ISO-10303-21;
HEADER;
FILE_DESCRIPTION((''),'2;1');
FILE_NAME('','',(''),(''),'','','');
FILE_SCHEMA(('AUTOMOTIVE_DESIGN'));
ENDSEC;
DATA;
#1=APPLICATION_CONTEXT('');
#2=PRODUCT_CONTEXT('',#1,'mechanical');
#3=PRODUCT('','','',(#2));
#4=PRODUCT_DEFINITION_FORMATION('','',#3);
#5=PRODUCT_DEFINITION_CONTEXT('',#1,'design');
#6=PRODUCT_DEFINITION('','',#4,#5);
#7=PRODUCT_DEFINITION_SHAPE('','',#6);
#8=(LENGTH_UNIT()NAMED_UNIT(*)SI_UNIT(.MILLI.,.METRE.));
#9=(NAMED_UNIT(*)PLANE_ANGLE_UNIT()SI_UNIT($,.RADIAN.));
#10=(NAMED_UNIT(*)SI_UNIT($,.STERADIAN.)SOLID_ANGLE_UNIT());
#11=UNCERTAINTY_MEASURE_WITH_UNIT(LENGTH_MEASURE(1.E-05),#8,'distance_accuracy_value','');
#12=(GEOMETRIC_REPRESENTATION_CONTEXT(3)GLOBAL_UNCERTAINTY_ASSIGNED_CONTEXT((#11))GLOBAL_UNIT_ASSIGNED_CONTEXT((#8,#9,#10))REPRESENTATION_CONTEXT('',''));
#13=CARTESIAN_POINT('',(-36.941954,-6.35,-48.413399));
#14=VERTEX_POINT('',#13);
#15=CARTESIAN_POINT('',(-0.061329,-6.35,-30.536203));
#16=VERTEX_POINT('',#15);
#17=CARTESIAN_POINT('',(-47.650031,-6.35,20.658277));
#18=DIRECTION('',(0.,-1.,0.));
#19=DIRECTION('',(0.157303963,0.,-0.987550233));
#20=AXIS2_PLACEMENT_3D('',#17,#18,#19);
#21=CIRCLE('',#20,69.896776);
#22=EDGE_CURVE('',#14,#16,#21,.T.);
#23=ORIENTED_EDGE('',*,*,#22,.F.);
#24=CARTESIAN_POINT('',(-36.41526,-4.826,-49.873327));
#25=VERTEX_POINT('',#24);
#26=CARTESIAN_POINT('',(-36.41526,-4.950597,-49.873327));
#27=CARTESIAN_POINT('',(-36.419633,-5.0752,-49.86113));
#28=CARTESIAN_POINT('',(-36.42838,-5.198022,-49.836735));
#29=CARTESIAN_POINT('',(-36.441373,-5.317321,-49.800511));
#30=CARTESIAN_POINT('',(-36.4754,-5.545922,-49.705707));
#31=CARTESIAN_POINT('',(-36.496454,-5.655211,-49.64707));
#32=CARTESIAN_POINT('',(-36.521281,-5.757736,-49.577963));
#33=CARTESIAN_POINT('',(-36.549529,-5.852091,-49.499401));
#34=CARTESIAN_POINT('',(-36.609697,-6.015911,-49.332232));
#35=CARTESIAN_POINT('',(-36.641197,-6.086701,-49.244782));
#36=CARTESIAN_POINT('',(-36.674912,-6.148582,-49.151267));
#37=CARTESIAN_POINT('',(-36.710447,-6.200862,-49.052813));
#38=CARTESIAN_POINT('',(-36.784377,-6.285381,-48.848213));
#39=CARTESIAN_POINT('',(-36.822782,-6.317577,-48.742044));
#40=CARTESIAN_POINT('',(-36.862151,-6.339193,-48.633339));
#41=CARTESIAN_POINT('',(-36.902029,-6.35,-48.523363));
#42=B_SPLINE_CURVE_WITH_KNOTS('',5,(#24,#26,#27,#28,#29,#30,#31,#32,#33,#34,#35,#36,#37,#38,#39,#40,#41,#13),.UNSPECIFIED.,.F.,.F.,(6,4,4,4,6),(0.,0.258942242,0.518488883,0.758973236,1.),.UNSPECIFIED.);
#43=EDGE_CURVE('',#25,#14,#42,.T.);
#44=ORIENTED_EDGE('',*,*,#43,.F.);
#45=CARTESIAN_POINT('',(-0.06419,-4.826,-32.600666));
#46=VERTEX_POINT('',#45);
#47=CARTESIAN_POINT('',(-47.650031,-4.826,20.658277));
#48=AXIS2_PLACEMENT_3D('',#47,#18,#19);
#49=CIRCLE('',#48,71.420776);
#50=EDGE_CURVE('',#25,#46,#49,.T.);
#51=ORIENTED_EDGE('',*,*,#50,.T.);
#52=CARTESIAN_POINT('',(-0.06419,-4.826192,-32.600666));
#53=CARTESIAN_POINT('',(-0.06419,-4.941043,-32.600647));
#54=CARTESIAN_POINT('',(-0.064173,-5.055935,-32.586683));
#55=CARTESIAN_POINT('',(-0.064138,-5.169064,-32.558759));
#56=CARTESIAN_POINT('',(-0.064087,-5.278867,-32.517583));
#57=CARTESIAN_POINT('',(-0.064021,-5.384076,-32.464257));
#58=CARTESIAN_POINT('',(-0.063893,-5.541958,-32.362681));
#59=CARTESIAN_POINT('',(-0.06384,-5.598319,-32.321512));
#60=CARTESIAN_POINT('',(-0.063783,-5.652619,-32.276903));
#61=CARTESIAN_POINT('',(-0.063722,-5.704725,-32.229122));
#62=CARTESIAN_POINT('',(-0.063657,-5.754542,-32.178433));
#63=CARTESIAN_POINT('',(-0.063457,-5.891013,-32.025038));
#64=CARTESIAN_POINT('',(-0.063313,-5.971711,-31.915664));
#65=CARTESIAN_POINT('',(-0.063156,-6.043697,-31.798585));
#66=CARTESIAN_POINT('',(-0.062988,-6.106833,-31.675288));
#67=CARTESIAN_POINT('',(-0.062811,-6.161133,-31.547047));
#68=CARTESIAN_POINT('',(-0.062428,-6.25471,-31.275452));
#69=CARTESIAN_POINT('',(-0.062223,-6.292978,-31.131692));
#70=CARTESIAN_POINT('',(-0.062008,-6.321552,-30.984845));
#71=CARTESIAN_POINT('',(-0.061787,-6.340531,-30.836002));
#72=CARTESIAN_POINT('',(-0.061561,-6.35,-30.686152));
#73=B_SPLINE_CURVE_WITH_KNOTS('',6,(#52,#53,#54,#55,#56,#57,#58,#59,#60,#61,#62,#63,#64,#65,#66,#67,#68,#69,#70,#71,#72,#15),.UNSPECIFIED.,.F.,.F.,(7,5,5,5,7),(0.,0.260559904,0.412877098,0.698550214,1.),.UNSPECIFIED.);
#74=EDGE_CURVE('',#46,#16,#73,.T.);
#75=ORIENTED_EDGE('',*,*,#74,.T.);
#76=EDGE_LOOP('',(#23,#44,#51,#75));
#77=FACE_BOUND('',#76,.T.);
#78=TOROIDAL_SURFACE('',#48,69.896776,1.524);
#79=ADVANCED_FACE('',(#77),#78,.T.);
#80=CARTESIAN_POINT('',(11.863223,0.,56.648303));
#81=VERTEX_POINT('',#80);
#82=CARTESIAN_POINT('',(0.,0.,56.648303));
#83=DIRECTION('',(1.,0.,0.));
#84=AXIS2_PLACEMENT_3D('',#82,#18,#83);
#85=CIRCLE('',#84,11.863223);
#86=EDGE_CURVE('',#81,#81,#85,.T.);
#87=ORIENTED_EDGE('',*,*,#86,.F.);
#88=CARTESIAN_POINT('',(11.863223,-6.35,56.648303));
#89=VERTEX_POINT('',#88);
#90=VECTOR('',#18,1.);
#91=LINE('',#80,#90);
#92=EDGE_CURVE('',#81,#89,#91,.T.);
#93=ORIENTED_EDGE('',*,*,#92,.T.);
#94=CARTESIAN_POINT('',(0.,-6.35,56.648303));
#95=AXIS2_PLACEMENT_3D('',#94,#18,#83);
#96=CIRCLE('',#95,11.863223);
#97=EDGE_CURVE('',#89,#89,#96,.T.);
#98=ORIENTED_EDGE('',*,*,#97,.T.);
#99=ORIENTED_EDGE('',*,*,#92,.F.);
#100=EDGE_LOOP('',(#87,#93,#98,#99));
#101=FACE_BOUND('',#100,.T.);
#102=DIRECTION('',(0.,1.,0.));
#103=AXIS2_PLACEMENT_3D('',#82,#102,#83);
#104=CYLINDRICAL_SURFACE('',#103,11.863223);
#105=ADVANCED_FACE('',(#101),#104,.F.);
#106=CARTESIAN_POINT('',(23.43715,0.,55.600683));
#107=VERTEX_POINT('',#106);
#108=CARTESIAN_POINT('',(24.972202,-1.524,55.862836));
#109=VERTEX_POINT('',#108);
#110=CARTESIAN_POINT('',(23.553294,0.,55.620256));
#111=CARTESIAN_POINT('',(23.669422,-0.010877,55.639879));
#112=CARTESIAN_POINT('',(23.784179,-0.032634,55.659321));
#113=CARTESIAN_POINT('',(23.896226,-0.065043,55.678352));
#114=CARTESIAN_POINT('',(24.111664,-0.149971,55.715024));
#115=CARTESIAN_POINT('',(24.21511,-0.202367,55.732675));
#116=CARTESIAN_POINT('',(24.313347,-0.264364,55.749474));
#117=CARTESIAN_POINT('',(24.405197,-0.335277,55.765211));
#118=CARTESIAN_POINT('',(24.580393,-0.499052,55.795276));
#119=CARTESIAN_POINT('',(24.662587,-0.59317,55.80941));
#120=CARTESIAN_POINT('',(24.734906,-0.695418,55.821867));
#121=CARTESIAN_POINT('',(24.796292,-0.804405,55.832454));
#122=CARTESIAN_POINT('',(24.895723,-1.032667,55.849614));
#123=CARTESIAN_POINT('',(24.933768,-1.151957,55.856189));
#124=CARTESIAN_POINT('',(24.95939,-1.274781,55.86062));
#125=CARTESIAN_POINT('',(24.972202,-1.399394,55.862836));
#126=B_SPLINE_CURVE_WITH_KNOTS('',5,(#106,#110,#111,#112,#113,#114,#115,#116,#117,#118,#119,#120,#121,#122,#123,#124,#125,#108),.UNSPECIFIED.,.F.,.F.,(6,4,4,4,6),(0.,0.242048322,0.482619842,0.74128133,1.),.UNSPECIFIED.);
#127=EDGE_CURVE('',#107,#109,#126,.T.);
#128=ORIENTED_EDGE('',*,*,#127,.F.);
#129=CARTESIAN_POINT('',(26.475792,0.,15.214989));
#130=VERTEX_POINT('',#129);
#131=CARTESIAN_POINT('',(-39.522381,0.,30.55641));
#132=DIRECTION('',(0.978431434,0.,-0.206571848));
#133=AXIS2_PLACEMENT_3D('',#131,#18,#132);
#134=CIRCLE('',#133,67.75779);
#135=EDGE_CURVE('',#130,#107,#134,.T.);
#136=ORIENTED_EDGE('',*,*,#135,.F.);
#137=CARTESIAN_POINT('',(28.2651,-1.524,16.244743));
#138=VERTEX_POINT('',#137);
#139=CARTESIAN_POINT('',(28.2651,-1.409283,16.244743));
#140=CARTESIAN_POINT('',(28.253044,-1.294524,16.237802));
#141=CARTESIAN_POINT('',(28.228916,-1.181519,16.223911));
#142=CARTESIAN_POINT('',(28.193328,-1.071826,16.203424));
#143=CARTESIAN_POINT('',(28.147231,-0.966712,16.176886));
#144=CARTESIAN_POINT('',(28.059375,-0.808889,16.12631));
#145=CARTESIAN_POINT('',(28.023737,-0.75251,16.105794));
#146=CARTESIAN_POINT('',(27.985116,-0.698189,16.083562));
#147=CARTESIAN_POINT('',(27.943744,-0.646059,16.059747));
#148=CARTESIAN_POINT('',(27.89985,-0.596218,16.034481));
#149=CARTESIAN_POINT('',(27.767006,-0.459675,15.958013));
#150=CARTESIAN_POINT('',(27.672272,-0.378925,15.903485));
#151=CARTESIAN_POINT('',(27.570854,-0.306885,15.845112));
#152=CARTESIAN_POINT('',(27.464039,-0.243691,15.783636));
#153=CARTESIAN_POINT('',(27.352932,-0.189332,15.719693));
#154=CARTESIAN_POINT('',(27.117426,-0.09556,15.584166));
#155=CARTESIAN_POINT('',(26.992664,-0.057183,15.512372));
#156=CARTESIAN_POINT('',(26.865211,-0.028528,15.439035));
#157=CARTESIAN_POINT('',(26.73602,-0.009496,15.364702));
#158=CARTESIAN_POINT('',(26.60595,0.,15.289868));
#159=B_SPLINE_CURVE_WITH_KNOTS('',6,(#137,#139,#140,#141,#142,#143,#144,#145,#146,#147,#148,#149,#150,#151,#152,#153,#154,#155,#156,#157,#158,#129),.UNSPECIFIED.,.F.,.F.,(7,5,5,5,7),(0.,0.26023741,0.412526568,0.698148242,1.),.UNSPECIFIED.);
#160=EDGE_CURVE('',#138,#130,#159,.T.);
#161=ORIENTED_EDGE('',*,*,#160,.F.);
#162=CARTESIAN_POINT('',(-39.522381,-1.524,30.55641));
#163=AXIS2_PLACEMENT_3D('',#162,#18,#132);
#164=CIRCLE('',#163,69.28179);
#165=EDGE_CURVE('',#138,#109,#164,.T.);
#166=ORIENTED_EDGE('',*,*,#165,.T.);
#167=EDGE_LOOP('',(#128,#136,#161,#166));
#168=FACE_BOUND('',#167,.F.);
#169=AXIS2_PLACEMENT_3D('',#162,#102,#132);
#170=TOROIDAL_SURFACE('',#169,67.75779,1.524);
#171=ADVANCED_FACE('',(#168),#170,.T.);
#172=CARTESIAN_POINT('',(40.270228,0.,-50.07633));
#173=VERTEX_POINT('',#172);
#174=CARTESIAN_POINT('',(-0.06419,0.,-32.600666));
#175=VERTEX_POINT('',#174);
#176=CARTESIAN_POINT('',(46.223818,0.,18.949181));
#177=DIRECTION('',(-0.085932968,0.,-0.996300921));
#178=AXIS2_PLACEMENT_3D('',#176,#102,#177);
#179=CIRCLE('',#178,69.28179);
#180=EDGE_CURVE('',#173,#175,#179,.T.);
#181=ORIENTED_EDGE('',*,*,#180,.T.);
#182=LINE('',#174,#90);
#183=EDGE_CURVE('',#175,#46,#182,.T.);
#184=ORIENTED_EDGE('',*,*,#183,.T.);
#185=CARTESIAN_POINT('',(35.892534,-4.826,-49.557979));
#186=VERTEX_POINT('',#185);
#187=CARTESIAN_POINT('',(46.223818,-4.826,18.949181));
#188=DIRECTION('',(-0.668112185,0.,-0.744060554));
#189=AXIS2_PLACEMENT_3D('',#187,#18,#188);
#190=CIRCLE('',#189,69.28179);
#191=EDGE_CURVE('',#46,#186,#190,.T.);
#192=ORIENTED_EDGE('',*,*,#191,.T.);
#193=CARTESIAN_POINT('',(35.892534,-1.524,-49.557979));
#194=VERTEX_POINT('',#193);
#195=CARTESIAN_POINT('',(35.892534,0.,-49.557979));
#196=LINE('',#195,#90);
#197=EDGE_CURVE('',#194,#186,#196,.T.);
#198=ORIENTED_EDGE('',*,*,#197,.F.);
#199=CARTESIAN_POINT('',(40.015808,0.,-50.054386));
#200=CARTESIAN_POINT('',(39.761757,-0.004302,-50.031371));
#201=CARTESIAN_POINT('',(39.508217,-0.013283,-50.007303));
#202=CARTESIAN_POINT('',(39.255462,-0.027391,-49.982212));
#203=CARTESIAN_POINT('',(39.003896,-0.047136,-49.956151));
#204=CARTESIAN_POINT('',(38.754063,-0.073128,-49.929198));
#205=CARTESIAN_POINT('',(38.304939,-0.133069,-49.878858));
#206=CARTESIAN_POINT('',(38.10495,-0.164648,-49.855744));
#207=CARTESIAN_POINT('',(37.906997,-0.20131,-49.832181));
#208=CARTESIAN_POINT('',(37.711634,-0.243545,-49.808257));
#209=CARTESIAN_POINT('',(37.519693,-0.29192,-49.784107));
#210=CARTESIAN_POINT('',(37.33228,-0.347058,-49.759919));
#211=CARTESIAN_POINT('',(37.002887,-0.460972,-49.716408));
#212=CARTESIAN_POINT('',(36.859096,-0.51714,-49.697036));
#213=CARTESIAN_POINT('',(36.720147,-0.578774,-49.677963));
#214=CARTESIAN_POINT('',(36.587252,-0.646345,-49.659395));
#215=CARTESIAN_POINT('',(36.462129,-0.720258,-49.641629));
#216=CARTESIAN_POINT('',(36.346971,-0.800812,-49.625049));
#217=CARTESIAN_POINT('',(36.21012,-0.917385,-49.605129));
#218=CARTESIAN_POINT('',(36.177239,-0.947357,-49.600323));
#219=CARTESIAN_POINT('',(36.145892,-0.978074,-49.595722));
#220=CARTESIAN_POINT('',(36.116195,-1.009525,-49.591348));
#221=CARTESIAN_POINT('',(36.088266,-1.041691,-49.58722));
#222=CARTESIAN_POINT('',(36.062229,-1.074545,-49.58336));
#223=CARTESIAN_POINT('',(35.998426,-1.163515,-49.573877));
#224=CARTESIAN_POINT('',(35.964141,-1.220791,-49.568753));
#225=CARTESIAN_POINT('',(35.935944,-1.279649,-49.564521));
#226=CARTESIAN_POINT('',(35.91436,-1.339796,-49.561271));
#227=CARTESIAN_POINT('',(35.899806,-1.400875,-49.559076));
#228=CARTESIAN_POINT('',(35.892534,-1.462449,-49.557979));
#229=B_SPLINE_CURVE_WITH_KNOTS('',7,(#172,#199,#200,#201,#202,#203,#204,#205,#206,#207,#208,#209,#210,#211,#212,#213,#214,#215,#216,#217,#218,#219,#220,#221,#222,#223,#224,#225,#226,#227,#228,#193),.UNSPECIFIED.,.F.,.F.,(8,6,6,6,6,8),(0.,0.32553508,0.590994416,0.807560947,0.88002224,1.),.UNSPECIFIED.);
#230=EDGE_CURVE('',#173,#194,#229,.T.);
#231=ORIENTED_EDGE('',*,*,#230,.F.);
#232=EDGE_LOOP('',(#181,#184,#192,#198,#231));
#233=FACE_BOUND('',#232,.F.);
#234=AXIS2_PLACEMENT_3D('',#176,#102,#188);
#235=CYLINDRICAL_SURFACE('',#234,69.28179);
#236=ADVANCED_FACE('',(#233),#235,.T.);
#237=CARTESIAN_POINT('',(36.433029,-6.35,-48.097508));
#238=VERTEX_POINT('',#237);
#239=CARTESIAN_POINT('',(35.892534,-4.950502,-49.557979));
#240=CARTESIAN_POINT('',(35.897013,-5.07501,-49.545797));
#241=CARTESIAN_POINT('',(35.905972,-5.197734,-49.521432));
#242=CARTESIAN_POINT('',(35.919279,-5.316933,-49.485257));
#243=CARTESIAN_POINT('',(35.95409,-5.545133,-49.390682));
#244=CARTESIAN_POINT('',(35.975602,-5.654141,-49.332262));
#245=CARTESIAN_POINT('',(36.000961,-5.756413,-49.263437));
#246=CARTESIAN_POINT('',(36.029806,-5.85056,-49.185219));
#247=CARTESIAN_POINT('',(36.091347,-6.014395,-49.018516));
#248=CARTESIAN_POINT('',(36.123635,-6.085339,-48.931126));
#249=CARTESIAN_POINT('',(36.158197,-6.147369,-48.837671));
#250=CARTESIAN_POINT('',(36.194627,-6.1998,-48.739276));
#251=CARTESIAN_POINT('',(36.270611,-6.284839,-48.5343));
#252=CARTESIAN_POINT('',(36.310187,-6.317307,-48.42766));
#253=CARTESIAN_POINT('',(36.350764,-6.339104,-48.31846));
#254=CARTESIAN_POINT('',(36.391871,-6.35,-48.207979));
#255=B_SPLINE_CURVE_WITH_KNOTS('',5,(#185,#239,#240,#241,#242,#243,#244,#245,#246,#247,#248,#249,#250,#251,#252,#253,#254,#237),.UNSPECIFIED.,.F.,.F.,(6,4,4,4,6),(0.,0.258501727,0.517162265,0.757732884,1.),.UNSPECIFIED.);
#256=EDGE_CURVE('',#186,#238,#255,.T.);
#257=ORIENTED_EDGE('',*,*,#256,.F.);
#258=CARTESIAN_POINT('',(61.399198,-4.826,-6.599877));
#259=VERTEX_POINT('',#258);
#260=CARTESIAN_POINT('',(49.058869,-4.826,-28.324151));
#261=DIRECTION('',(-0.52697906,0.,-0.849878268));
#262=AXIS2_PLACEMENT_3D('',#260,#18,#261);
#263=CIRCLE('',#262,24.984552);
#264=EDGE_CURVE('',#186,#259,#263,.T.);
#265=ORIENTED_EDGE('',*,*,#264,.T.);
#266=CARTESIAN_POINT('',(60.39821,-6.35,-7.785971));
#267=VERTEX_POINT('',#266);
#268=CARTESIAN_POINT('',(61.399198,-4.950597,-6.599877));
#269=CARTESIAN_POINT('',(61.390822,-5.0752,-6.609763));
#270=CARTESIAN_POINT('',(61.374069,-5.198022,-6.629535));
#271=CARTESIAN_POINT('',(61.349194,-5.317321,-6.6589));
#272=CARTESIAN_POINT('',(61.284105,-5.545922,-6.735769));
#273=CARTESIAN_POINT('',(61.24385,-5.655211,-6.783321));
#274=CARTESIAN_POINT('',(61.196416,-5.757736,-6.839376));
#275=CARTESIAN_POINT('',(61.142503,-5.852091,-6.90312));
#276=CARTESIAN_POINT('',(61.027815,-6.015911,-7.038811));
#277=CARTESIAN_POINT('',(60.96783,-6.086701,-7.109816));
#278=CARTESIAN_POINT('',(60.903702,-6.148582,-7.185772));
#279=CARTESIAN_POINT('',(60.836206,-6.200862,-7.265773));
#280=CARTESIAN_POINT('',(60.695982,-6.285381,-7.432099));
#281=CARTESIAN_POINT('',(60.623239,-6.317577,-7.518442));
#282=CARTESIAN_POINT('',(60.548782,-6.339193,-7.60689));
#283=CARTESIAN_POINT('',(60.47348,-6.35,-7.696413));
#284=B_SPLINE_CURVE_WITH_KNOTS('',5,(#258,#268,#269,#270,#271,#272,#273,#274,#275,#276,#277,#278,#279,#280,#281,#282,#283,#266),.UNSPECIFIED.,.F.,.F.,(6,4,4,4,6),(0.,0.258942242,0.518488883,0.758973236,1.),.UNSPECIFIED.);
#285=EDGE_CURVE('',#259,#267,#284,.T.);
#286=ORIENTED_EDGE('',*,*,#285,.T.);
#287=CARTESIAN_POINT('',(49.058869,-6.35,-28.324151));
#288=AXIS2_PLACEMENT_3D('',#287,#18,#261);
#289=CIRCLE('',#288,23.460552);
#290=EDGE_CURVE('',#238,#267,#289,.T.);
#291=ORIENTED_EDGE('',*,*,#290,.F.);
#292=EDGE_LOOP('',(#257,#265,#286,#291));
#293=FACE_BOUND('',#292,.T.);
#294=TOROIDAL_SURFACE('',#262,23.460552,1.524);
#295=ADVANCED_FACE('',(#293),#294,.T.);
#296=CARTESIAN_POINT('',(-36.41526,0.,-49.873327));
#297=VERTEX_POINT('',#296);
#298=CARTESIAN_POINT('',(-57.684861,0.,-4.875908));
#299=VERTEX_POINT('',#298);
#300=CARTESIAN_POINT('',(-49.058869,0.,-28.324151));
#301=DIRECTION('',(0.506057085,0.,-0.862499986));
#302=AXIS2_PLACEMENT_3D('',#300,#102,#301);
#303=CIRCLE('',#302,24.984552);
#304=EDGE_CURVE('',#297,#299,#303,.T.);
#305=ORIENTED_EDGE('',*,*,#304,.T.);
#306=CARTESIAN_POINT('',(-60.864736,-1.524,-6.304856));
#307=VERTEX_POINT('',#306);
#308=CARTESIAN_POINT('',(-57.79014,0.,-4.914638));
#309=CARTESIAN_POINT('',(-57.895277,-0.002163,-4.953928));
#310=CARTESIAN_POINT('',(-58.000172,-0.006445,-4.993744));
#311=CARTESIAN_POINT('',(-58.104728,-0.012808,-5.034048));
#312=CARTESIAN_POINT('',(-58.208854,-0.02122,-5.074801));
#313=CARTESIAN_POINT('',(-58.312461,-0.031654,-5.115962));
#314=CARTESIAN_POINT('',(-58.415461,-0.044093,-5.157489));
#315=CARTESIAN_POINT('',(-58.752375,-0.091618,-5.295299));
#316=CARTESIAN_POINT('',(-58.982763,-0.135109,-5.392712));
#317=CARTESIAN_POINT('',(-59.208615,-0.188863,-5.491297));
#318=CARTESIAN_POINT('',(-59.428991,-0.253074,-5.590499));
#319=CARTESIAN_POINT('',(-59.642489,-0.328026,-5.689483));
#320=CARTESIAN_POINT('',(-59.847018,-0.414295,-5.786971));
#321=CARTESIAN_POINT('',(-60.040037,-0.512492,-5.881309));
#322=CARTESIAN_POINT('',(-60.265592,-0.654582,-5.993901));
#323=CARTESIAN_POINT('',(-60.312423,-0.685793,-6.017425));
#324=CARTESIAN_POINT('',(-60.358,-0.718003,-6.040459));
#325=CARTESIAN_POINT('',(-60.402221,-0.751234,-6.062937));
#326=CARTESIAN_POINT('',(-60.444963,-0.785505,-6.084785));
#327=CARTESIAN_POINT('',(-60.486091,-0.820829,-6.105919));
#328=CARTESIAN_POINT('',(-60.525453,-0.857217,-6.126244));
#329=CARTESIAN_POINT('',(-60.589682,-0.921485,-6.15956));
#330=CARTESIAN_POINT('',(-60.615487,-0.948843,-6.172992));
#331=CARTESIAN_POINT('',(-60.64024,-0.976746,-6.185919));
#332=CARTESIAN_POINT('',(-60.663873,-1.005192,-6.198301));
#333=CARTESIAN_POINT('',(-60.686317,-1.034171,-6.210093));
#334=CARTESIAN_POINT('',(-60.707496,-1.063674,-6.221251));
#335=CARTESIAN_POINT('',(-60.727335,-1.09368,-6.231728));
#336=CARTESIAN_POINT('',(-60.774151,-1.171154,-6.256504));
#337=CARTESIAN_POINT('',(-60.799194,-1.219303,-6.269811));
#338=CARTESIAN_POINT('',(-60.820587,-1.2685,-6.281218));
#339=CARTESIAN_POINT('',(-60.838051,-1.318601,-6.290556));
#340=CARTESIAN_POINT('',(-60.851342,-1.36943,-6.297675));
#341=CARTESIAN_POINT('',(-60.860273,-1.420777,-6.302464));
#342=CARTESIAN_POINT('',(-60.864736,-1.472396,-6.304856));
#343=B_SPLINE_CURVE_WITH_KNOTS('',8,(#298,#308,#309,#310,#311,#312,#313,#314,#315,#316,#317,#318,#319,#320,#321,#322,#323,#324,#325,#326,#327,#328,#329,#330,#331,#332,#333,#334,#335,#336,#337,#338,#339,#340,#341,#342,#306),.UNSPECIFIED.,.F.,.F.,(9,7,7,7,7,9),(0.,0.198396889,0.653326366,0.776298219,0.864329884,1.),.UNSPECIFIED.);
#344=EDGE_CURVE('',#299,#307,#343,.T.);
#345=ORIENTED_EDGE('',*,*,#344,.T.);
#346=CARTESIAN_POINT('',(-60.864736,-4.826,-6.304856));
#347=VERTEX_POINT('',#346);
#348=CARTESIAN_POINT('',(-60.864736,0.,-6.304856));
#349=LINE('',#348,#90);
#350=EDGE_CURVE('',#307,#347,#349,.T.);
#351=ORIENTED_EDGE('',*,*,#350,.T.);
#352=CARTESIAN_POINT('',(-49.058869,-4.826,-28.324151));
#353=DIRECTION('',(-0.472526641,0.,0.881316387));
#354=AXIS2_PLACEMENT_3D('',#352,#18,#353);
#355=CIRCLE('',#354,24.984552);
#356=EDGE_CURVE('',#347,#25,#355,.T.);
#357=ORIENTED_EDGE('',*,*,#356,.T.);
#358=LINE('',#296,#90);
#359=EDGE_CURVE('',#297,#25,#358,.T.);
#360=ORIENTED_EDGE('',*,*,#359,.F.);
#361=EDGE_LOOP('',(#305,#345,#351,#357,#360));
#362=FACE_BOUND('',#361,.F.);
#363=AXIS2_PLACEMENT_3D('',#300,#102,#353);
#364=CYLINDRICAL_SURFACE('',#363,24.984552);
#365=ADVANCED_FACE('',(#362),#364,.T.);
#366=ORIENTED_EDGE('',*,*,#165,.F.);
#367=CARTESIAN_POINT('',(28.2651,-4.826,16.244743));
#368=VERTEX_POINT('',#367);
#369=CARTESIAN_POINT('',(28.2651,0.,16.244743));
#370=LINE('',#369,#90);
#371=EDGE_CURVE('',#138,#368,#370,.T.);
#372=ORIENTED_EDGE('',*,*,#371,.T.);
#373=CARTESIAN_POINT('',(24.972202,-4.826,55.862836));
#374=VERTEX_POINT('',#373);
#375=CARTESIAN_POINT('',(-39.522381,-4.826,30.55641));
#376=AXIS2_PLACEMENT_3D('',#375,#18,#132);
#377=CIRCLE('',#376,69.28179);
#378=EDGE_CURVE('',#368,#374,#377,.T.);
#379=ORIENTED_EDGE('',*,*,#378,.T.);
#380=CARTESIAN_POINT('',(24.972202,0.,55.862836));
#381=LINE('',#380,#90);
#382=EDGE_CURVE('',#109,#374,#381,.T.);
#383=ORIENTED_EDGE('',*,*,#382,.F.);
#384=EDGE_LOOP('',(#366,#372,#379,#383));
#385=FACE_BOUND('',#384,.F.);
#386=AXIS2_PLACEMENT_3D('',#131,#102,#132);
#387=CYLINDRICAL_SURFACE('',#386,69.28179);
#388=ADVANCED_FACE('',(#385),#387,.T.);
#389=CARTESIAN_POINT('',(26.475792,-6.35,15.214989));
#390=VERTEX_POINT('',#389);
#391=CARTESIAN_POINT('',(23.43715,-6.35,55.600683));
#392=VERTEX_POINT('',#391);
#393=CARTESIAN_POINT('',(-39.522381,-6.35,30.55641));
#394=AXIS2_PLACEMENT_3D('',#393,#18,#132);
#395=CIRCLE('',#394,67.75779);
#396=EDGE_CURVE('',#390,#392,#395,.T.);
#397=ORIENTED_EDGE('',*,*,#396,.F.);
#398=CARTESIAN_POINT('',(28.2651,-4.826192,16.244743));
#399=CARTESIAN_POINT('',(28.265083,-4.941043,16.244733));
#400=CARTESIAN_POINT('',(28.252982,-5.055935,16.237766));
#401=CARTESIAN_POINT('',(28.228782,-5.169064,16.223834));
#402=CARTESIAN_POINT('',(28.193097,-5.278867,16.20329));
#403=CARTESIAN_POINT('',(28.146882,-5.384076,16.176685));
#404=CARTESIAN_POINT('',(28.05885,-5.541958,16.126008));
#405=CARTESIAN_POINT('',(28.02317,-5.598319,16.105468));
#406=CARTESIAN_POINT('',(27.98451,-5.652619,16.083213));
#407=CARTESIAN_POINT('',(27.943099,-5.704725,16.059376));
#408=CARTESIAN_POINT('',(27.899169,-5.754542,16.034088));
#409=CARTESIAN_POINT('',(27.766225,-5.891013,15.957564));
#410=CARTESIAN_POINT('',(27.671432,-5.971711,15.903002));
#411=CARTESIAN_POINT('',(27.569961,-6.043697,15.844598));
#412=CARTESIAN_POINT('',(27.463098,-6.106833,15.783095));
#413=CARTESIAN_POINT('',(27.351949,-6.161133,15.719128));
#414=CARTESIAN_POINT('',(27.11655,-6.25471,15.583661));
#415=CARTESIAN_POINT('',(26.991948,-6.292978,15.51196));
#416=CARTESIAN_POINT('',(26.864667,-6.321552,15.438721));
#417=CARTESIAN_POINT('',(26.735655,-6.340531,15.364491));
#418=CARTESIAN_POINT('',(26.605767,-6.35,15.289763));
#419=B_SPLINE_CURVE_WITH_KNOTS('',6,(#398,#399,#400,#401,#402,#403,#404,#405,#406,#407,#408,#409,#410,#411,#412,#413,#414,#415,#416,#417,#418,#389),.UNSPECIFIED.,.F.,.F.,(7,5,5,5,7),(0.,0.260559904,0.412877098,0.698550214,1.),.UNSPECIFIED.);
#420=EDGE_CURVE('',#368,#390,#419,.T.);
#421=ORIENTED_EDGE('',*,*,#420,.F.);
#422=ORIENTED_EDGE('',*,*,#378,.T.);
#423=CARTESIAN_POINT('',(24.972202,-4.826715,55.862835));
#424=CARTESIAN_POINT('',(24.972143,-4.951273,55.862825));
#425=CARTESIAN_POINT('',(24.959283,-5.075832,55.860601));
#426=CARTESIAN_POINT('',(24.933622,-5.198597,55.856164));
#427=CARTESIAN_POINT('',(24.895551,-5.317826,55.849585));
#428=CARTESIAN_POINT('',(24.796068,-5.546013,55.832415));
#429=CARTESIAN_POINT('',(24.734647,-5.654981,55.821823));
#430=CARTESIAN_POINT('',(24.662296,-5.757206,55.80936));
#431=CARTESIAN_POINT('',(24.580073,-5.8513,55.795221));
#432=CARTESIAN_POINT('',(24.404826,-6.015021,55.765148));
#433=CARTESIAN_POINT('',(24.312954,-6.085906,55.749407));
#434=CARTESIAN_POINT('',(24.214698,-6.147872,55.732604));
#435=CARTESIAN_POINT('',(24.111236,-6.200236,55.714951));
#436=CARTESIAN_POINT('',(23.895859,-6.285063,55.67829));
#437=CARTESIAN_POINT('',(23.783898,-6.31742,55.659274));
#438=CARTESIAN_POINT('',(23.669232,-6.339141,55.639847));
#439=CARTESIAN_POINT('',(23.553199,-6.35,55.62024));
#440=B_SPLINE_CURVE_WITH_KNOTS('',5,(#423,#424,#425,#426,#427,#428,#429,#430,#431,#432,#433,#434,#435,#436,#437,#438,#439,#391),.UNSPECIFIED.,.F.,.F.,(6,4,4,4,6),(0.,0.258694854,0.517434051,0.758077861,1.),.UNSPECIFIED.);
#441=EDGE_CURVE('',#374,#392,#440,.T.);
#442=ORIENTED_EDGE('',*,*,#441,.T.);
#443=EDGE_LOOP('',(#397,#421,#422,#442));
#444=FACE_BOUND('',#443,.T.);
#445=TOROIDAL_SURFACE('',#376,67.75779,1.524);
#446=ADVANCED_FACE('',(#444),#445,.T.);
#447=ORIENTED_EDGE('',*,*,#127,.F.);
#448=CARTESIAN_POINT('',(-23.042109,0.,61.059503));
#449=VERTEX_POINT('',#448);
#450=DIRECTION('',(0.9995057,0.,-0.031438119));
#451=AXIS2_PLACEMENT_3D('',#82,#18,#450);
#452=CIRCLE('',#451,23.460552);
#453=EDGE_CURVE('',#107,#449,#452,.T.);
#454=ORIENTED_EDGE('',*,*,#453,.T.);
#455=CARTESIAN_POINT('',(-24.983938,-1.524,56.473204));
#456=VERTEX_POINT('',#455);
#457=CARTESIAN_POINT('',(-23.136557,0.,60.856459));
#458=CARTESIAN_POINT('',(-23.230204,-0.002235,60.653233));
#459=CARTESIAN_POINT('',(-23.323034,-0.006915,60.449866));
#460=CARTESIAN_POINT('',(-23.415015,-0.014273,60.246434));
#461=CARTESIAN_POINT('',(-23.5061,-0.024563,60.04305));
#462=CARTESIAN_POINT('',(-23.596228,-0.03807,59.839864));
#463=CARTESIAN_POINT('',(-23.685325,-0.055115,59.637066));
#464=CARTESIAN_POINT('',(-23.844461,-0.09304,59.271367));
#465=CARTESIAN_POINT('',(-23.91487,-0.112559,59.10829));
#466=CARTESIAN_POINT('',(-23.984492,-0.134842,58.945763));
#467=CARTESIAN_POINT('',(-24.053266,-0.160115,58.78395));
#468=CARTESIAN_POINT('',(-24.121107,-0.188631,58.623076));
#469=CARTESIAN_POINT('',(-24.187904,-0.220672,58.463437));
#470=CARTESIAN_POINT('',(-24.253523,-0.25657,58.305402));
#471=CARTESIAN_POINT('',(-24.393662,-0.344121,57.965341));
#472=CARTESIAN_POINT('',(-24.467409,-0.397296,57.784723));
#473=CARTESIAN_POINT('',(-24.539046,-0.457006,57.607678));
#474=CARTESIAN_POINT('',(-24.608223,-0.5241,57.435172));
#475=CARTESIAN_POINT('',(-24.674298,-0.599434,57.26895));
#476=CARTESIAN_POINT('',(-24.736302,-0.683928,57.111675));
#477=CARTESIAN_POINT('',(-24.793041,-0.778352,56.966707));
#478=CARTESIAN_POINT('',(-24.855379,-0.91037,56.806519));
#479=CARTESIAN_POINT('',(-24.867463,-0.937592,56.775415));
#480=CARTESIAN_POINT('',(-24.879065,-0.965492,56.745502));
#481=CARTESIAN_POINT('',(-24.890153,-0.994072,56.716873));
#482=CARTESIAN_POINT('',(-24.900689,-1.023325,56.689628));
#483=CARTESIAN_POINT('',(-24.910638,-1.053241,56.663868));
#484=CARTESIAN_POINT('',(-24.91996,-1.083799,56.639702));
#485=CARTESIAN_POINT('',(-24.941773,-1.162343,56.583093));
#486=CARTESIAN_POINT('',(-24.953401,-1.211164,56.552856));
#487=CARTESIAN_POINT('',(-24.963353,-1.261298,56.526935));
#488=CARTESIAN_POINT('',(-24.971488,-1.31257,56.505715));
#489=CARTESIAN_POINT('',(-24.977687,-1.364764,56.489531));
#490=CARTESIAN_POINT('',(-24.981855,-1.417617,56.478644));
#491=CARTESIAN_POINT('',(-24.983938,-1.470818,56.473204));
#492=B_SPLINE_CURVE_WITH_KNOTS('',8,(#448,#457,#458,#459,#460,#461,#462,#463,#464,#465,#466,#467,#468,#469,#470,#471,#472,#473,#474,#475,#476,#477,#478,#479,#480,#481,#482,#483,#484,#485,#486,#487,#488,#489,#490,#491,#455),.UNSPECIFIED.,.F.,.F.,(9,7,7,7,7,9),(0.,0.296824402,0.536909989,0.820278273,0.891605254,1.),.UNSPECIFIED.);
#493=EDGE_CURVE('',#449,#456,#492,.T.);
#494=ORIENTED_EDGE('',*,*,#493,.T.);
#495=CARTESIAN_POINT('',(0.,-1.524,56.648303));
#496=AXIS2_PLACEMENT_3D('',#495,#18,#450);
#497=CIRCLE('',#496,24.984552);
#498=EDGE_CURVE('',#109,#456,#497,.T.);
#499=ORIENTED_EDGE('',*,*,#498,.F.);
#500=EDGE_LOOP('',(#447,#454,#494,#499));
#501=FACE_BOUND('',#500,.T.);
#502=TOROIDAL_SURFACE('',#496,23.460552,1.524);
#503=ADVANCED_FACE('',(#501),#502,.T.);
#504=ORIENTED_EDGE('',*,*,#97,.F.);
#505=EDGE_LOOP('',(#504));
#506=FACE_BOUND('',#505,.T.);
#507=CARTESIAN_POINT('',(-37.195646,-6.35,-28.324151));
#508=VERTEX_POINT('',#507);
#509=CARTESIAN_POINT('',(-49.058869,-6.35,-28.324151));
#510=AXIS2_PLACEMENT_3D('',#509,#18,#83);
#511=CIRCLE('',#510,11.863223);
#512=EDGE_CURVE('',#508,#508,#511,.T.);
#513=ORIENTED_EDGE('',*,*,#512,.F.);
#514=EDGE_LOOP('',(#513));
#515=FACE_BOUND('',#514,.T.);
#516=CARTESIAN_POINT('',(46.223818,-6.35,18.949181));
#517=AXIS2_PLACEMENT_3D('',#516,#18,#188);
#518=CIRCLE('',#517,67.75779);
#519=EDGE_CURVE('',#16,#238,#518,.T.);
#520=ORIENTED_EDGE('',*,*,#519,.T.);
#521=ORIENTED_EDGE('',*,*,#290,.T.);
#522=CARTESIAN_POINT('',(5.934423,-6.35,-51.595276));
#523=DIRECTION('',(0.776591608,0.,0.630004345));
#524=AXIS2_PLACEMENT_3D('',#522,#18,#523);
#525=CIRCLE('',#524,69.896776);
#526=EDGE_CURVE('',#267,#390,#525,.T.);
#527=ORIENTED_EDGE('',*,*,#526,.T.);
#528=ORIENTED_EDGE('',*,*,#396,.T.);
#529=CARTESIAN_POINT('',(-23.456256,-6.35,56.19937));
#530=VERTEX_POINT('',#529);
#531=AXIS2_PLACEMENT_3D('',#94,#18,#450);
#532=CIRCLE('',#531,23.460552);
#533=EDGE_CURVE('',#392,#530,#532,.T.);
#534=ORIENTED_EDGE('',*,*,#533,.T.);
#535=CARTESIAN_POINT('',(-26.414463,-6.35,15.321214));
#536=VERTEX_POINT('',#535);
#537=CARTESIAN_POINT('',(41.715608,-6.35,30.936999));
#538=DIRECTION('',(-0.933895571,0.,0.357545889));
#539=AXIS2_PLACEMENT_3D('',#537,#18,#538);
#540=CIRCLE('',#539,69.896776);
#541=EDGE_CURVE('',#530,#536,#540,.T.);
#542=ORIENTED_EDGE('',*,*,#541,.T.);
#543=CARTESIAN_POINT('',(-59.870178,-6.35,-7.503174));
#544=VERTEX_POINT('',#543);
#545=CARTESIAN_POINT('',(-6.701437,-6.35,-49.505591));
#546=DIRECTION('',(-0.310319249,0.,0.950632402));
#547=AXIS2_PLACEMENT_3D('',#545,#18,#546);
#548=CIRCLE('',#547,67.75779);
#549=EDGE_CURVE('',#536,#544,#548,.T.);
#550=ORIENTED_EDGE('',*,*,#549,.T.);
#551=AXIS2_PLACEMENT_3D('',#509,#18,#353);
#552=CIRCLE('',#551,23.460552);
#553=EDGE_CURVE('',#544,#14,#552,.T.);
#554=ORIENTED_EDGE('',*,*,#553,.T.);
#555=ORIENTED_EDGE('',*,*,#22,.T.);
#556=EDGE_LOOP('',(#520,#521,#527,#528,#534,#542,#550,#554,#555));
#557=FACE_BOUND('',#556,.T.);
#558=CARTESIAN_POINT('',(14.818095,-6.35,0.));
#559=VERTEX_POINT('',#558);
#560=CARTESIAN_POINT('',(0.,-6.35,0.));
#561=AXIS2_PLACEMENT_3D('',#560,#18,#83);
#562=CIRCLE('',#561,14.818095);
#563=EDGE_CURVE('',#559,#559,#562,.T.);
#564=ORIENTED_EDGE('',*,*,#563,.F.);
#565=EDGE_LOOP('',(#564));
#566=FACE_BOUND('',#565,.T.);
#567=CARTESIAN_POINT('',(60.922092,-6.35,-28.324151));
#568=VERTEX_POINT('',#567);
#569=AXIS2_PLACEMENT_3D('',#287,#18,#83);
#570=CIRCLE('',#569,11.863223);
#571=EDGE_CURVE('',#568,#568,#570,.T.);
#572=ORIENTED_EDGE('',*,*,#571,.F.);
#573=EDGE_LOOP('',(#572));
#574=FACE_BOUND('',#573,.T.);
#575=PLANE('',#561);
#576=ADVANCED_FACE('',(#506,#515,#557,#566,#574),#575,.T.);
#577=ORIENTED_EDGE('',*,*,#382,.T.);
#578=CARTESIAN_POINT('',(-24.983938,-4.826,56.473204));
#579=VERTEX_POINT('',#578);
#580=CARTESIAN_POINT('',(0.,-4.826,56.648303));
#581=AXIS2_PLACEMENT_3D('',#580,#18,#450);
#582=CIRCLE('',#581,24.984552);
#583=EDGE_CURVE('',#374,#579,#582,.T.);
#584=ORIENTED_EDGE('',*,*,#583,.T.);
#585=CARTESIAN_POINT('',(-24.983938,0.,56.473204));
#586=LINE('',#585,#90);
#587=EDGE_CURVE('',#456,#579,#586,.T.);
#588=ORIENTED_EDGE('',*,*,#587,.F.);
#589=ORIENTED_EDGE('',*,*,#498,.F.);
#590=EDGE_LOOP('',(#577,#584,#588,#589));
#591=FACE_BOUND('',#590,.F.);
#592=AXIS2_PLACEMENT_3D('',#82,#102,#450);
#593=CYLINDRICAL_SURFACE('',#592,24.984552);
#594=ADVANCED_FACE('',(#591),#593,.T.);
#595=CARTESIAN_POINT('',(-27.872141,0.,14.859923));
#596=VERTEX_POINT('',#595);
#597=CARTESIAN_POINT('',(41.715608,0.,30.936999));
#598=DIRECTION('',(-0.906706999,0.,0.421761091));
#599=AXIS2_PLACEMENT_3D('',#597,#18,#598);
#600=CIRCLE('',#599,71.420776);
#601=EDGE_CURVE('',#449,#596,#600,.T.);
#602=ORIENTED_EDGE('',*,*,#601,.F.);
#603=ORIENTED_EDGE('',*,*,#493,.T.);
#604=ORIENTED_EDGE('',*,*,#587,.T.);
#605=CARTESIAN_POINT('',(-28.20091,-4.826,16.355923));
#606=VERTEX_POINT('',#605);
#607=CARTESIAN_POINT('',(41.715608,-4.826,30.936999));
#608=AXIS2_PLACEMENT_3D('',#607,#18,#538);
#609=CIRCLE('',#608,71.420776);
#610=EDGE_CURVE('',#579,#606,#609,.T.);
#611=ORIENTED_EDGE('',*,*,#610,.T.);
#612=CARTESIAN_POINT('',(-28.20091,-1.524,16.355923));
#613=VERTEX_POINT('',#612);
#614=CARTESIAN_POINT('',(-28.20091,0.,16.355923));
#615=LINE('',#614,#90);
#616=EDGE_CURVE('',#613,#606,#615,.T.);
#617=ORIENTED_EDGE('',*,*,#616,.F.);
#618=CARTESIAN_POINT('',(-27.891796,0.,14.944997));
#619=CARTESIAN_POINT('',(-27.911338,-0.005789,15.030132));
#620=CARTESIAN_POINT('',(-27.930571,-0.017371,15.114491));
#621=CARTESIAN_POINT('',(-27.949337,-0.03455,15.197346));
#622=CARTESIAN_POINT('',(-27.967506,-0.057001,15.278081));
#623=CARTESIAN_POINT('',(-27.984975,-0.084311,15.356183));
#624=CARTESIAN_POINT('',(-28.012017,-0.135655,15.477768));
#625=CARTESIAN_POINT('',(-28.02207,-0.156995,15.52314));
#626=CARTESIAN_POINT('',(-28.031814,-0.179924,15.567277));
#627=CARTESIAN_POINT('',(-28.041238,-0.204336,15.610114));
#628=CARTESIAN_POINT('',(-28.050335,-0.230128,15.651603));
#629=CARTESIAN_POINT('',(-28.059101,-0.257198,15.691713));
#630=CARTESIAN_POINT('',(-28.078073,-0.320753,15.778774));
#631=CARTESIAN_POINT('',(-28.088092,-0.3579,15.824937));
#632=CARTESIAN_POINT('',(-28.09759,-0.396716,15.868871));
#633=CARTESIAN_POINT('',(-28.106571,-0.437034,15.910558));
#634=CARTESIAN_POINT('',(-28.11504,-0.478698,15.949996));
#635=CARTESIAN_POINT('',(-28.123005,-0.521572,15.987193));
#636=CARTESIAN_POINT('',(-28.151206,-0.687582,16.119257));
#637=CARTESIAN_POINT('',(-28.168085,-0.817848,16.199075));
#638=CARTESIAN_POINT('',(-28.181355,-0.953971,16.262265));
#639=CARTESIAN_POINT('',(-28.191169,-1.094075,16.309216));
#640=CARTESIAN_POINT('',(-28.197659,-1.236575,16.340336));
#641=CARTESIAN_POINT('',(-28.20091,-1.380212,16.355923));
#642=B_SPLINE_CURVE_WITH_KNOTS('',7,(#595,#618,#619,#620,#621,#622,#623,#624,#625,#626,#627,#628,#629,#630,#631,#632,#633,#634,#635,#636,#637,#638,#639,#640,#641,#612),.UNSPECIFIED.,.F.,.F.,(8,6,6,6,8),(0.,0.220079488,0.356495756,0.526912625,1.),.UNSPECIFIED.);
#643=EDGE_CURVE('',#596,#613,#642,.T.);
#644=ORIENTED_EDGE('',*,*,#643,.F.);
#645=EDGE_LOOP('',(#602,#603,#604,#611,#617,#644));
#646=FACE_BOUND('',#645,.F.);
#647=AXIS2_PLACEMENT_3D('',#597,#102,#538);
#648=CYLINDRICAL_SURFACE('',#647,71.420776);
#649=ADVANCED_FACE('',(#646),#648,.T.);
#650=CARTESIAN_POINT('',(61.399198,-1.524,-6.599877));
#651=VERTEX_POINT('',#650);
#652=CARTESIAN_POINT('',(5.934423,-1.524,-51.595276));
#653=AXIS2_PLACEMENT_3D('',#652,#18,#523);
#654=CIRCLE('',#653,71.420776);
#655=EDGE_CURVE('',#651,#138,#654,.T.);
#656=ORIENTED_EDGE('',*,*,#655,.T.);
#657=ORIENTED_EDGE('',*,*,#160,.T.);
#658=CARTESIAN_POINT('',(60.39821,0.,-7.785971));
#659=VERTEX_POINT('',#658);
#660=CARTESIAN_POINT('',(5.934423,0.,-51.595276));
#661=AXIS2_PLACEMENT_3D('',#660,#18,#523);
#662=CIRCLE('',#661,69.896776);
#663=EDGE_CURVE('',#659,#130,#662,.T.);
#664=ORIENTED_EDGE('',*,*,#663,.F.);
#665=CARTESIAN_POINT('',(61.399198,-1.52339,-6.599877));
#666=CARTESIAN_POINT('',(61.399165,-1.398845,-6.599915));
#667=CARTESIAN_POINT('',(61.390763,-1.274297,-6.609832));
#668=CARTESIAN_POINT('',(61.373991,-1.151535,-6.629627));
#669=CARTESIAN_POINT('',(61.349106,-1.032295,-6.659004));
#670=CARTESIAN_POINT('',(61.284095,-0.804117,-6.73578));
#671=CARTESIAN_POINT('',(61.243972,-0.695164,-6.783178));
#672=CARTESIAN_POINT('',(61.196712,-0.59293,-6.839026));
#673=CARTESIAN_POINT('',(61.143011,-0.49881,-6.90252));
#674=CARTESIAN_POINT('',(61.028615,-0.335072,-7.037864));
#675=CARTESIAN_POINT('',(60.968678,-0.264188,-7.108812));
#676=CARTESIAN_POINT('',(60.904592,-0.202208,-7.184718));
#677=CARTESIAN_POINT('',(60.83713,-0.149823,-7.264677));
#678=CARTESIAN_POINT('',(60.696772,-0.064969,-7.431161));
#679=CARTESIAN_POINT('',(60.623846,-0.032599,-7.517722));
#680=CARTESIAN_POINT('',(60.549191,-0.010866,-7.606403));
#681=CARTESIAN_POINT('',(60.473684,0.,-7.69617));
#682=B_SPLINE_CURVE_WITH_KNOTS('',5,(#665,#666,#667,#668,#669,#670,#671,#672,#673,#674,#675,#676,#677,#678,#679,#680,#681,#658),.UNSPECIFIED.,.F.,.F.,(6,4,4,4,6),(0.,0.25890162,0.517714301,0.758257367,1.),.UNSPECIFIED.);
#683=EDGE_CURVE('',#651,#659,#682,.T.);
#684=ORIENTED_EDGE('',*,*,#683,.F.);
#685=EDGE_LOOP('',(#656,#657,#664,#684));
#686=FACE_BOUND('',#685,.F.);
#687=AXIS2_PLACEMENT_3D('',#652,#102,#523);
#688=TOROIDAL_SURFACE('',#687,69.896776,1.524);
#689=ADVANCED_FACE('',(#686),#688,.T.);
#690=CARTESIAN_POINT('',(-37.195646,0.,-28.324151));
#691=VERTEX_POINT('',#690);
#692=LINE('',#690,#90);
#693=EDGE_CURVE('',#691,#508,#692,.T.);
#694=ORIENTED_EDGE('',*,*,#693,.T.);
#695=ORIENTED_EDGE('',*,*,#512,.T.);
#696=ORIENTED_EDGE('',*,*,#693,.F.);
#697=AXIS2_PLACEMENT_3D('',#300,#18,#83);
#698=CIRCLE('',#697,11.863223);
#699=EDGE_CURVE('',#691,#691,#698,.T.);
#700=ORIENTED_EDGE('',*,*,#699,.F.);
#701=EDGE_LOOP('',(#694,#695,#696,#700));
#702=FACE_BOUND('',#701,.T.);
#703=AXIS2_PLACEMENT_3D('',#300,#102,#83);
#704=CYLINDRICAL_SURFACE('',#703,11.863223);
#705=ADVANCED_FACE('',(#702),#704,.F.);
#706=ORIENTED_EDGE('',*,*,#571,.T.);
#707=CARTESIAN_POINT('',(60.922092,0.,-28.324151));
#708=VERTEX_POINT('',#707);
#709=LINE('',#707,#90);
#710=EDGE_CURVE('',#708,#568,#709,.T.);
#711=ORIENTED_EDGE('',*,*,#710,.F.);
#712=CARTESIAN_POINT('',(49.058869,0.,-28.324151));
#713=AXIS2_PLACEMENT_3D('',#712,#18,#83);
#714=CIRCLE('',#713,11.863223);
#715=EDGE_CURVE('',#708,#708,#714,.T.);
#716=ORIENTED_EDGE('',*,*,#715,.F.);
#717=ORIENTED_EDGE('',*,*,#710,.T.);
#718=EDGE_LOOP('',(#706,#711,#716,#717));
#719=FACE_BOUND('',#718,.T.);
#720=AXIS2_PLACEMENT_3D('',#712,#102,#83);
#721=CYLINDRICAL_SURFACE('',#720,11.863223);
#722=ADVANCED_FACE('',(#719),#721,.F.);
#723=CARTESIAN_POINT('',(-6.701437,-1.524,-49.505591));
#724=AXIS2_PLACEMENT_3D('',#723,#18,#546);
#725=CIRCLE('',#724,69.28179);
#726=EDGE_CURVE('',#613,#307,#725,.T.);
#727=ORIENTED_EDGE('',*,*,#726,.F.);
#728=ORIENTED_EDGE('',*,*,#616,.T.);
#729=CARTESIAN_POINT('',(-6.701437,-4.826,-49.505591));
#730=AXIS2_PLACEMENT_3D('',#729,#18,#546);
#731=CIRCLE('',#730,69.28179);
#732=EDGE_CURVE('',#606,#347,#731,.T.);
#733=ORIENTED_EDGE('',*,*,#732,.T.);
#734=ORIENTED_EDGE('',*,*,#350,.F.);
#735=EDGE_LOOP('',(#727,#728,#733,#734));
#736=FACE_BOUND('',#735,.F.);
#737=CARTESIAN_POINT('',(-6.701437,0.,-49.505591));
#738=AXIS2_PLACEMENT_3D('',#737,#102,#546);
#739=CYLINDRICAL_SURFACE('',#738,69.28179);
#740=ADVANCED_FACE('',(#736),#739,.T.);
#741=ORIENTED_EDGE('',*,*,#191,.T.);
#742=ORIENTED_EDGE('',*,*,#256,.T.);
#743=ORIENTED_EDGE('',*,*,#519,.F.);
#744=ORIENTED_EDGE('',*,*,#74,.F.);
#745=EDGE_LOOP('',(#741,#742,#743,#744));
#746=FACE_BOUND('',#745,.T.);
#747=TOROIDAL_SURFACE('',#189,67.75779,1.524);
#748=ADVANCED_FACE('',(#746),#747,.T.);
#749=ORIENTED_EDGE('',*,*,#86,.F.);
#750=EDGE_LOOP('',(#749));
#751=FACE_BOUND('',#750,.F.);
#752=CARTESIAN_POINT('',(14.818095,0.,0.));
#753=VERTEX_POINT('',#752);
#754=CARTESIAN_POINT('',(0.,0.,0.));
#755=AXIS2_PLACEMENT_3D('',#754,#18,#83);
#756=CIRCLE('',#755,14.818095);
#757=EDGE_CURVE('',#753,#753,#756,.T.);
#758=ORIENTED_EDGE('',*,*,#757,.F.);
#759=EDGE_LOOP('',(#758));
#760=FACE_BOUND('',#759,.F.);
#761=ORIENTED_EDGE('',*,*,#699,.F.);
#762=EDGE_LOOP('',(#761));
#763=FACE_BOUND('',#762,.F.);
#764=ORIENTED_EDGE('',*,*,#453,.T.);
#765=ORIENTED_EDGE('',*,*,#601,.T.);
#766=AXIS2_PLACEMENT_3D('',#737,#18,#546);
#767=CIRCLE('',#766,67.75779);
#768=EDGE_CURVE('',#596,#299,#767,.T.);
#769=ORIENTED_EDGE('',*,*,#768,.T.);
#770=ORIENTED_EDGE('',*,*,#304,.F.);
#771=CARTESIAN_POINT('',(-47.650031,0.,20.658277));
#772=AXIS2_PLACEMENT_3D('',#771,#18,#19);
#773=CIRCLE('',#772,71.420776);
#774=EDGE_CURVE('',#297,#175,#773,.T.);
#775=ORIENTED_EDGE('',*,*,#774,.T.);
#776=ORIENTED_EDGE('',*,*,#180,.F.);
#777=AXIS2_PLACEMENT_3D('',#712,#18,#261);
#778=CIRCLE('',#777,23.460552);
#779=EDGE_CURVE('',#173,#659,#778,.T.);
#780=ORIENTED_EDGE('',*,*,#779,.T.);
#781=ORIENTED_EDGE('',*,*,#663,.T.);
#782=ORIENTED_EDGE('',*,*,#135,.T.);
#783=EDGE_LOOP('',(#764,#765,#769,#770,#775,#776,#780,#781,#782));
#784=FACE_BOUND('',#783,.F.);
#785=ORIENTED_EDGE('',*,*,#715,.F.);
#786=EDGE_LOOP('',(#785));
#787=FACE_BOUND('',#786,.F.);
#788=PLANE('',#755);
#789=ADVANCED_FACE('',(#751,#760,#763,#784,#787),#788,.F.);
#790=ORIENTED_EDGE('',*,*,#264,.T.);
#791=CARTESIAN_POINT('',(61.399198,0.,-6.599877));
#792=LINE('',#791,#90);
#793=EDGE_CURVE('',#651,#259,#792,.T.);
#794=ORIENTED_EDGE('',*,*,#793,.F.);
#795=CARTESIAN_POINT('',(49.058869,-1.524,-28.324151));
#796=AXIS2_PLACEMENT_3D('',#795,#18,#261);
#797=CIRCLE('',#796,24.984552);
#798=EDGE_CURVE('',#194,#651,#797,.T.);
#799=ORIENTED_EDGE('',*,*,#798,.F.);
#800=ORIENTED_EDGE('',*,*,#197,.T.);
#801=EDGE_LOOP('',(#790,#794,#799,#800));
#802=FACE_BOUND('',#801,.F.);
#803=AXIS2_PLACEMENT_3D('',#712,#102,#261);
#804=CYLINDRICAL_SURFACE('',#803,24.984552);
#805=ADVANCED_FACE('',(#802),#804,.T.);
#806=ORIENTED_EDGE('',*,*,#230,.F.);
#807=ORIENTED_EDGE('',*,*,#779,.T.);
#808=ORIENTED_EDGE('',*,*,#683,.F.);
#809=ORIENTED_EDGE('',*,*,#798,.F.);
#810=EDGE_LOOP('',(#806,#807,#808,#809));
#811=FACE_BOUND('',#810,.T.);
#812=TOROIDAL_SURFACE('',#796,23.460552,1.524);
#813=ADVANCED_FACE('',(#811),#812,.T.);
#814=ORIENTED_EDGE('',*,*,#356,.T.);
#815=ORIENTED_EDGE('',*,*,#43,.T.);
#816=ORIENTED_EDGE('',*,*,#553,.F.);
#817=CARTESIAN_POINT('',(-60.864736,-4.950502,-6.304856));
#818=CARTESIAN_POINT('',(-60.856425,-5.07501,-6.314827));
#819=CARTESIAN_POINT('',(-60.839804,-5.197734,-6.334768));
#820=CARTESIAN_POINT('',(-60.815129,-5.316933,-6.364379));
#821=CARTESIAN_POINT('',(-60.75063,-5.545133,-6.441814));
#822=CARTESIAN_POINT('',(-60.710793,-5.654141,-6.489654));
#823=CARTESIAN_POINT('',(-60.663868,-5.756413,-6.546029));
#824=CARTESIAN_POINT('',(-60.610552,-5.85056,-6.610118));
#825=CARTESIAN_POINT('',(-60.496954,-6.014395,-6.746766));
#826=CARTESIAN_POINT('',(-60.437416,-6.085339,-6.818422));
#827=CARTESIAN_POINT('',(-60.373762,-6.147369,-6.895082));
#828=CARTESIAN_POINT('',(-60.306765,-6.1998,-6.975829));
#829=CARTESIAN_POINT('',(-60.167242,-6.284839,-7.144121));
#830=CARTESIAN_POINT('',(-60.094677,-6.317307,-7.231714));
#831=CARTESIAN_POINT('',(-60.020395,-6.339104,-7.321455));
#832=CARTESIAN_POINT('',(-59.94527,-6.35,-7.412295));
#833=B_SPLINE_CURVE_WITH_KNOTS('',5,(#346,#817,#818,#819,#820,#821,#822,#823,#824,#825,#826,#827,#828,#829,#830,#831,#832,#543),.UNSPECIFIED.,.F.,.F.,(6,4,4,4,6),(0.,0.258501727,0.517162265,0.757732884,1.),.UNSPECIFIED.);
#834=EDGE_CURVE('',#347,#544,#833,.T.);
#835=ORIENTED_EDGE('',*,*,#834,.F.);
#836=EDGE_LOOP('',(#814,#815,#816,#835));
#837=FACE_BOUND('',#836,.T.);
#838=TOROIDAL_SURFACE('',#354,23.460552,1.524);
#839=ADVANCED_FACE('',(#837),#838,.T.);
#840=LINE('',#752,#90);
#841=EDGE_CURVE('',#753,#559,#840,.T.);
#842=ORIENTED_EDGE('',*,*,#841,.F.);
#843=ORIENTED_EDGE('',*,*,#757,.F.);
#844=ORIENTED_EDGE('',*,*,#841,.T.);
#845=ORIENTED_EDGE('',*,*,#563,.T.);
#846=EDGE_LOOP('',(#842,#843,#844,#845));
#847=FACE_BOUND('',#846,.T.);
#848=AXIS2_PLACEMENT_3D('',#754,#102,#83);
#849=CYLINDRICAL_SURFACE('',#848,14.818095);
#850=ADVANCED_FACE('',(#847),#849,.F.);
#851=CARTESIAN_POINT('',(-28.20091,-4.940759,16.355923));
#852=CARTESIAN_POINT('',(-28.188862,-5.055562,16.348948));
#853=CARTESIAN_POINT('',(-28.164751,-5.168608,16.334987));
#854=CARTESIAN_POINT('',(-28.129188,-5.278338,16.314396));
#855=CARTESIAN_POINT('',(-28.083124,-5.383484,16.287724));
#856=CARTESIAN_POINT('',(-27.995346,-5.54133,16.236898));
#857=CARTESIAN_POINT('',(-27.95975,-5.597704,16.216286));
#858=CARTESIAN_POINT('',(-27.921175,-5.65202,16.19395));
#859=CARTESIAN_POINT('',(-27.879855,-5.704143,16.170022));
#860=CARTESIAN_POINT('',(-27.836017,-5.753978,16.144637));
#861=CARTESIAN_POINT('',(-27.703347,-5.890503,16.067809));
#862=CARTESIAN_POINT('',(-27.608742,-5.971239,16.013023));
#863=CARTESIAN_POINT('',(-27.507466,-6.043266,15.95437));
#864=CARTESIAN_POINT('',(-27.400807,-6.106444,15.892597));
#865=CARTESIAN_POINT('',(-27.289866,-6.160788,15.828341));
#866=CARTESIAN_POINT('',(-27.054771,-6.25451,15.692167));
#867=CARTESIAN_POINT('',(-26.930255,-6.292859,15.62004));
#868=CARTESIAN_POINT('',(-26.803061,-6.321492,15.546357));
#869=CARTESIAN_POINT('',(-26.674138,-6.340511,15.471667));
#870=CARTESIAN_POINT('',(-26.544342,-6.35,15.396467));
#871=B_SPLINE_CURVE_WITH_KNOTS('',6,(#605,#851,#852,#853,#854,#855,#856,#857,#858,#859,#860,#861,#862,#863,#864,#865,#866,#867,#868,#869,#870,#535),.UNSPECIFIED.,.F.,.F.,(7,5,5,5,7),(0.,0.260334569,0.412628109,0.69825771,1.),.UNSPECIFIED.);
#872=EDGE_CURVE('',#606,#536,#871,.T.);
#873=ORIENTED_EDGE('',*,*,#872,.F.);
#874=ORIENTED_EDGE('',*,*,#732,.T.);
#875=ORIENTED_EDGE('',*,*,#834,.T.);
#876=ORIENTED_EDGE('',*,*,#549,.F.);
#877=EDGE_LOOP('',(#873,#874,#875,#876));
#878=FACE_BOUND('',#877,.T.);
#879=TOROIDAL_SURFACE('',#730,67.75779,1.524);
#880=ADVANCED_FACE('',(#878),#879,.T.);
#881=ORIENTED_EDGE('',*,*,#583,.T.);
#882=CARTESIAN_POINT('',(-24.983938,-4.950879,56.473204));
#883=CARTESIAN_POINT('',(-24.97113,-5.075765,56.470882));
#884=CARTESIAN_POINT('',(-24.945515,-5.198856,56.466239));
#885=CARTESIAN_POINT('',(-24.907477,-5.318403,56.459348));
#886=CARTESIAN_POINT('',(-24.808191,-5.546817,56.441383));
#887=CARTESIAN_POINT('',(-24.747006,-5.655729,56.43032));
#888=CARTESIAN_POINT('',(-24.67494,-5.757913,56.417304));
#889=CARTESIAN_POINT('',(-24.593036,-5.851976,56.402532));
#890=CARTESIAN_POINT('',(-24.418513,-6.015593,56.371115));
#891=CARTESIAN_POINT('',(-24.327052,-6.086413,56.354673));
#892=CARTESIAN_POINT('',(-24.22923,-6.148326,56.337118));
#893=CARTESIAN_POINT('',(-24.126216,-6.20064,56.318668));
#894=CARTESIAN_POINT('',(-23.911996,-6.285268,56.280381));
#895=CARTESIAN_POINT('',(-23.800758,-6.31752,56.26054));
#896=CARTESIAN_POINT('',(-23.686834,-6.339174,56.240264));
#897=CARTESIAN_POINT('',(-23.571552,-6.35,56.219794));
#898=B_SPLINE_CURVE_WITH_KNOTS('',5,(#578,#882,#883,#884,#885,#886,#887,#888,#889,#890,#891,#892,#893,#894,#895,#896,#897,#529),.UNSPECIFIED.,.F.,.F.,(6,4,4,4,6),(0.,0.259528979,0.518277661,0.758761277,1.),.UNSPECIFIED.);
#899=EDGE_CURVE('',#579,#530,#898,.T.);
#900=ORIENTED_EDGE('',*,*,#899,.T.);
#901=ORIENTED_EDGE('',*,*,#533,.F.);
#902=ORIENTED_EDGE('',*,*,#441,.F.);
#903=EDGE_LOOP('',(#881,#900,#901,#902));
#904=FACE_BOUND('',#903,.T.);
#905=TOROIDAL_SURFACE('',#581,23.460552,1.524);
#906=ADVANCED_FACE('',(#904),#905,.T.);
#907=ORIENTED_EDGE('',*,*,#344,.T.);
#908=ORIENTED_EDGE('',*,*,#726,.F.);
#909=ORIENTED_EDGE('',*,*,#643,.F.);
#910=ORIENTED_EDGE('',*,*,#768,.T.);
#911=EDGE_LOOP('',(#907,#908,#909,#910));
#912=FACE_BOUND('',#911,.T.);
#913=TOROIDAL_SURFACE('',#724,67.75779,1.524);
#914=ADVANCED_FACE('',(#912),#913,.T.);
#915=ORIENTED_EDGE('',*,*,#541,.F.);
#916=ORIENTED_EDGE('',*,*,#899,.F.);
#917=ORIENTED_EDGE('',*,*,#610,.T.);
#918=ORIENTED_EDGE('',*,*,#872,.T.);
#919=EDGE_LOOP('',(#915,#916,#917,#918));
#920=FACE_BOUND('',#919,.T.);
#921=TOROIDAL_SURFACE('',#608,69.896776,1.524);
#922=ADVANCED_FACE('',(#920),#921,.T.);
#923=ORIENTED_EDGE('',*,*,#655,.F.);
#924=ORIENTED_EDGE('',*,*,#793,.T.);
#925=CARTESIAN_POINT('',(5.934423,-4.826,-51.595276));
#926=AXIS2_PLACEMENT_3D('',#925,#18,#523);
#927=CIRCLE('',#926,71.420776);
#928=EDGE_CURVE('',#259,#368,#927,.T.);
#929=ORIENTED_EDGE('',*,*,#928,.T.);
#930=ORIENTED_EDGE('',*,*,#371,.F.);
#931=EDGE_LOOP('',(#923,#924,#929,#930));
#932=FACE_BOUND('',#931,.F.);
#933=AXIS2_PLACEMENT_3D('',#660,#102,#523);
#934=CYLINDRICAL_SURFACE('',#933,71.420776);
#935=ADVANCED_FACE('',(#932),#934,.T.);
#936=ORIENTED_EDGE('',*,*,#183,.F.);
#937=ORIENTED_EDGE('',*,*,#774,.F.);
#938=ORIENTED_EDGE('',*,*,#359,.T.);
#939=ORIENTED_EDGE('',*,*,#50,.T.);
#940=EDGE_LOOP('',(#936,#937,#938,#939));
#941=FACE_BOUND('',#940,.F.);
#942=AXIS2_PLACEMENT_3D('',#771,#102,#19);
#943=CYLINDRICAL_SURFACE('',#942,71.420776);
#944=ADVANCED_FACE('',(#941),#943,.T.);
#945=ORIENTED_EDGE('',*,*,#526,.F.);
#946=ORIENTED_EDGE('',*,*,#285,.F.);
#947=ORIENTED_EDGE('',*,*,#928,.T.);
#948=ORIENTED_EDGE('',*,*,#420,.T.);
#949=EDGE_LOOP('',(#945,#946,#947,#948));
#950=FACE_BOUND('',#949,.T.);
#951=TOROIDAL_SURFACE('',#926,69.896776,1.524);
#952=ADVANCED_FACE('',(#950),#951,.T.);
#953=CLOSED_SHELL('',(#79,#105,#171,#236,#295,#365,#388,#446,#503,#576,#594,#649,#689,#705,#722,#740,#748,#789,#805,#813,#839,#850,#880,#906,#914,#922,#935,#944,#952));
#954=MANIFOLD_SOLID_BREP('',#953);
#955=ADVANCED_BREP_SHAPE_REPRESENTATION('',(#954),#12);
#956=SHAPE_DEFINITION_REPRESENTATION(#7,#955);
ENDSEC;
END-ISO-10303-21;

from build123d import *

# Parameters (mm, degrees)
F0_R     = 11.8632229494
F0_R_2   = 14.8180946675
F1_DEPTH = 6.35
F2_R     = 1.524


with BuildPart() as f1:
    # F0 (on Front) → F1 (new body)
    with BuildSketch(Plane.XZ):
        with BuildLine():
            ThreePointArc((28.2651000935, 16.2447427168), (29.5213330142, 36.295048472), (24.9722020683, 55.8628355125))
            ThreePointArc((24.9722020683, 55.8628355125), (0.3052404709, 81.6309900945), (-24.9839383466, 56.4732036309))
            ThreePointArc((-24.9839383466, 56.4732036309), (-29.4766408592, 36.6458464542), (-28.2009099175, 16.3559233631))
            ThreePointArc((-28.2009099175, 16.3559233631), (-46.1931005154, 7.4187001078), (-60.8647357154, -6.3048563767))
            ThreePointArc((-60.8647357154, -6.3048563767), (-70.8471313934, -40.5511490452), (-36.4152598042, -49.8733271102))
            ThreePointArc((-36.4152598042, -49.8733271102), (-16.9979135429, -43.8504430294), (-0.064190176, -32.6006660799))
            ThreePointArc((-0.064190176, -32.6006660799), (16.6717675012, -43.7137485798), (35.8925336471, -49.5579791358))
            ThreePointArc((35.8925336471, -49.5579791358), (70.5418909225, -41.0798410493), (61.3991981508, -6.5998765207))
            ThreePointArc((61.3991981508, -6.5998765207), (46.4745544022, 7.2045965752), (28.2651000935, 16.2447427168))
        make_face()
        with Locations((-49.0588693263, -28.3241514117)):
            Circle(F0_R, mode=Mode.SUBTRACT)
        with Locations((49.0588693263, -28.3241514117)):
            Circle(F0_R, mode=Mode.SUBTRACT)
        Circle(F0_R_2, mode=Mode.SUBTRACT)
        with Locations((0, 56.6483028233)):
            Circle(F0_R, mode=Mode.SUBTRACT)
    extrude(amount=F1_DEPTH)

    # F2 (call 1 of 3: OpenCascade refuses the feature's edges together)
    f2_edges = [f1.edges().sort_by_distance(p)[0] for p in [
        (0.30524, -6.35, 81.63099),
        (29.521333, -6.35, 36.295048),
        (46.474554, -6.35, 7.204597),
        (70.541891, -6.35, -41.079841),
        (16.671768, -6.35, -43.713749),
        (-16.997914, -6.35, -43.850443),
        (-70.847131, -6.35, -40.551149),
        (-46.193101, -6.35, 7.4187),
        (-29.476641, -6.35, 36.645846),
    ]]
    fillet(f2_edges, radius=F2_R)

    # F2#2 (call 2 of 3)
    f2_2_edges = [f1.edges().sort_by_distance(p)[0] for p in [
        (0.30524, 0, 81.63099),
        (29.521333, 0, 36.295048),
        (46.474554, 0, 7.204597),
        (70.541891, 0, -41.079841),
    ]]
    fillet(f2_2_edges, radius=F2_R)

    # F2#3 (call 3 of 3)
    f2_3_edges = [f1.edges().sort_by_distance(p)[0] for p in [
        (-46.193101, 0, 7.4187),
    ]]
    fillet(f2_3_edges, radius=F2_R)


solid = f1.part
